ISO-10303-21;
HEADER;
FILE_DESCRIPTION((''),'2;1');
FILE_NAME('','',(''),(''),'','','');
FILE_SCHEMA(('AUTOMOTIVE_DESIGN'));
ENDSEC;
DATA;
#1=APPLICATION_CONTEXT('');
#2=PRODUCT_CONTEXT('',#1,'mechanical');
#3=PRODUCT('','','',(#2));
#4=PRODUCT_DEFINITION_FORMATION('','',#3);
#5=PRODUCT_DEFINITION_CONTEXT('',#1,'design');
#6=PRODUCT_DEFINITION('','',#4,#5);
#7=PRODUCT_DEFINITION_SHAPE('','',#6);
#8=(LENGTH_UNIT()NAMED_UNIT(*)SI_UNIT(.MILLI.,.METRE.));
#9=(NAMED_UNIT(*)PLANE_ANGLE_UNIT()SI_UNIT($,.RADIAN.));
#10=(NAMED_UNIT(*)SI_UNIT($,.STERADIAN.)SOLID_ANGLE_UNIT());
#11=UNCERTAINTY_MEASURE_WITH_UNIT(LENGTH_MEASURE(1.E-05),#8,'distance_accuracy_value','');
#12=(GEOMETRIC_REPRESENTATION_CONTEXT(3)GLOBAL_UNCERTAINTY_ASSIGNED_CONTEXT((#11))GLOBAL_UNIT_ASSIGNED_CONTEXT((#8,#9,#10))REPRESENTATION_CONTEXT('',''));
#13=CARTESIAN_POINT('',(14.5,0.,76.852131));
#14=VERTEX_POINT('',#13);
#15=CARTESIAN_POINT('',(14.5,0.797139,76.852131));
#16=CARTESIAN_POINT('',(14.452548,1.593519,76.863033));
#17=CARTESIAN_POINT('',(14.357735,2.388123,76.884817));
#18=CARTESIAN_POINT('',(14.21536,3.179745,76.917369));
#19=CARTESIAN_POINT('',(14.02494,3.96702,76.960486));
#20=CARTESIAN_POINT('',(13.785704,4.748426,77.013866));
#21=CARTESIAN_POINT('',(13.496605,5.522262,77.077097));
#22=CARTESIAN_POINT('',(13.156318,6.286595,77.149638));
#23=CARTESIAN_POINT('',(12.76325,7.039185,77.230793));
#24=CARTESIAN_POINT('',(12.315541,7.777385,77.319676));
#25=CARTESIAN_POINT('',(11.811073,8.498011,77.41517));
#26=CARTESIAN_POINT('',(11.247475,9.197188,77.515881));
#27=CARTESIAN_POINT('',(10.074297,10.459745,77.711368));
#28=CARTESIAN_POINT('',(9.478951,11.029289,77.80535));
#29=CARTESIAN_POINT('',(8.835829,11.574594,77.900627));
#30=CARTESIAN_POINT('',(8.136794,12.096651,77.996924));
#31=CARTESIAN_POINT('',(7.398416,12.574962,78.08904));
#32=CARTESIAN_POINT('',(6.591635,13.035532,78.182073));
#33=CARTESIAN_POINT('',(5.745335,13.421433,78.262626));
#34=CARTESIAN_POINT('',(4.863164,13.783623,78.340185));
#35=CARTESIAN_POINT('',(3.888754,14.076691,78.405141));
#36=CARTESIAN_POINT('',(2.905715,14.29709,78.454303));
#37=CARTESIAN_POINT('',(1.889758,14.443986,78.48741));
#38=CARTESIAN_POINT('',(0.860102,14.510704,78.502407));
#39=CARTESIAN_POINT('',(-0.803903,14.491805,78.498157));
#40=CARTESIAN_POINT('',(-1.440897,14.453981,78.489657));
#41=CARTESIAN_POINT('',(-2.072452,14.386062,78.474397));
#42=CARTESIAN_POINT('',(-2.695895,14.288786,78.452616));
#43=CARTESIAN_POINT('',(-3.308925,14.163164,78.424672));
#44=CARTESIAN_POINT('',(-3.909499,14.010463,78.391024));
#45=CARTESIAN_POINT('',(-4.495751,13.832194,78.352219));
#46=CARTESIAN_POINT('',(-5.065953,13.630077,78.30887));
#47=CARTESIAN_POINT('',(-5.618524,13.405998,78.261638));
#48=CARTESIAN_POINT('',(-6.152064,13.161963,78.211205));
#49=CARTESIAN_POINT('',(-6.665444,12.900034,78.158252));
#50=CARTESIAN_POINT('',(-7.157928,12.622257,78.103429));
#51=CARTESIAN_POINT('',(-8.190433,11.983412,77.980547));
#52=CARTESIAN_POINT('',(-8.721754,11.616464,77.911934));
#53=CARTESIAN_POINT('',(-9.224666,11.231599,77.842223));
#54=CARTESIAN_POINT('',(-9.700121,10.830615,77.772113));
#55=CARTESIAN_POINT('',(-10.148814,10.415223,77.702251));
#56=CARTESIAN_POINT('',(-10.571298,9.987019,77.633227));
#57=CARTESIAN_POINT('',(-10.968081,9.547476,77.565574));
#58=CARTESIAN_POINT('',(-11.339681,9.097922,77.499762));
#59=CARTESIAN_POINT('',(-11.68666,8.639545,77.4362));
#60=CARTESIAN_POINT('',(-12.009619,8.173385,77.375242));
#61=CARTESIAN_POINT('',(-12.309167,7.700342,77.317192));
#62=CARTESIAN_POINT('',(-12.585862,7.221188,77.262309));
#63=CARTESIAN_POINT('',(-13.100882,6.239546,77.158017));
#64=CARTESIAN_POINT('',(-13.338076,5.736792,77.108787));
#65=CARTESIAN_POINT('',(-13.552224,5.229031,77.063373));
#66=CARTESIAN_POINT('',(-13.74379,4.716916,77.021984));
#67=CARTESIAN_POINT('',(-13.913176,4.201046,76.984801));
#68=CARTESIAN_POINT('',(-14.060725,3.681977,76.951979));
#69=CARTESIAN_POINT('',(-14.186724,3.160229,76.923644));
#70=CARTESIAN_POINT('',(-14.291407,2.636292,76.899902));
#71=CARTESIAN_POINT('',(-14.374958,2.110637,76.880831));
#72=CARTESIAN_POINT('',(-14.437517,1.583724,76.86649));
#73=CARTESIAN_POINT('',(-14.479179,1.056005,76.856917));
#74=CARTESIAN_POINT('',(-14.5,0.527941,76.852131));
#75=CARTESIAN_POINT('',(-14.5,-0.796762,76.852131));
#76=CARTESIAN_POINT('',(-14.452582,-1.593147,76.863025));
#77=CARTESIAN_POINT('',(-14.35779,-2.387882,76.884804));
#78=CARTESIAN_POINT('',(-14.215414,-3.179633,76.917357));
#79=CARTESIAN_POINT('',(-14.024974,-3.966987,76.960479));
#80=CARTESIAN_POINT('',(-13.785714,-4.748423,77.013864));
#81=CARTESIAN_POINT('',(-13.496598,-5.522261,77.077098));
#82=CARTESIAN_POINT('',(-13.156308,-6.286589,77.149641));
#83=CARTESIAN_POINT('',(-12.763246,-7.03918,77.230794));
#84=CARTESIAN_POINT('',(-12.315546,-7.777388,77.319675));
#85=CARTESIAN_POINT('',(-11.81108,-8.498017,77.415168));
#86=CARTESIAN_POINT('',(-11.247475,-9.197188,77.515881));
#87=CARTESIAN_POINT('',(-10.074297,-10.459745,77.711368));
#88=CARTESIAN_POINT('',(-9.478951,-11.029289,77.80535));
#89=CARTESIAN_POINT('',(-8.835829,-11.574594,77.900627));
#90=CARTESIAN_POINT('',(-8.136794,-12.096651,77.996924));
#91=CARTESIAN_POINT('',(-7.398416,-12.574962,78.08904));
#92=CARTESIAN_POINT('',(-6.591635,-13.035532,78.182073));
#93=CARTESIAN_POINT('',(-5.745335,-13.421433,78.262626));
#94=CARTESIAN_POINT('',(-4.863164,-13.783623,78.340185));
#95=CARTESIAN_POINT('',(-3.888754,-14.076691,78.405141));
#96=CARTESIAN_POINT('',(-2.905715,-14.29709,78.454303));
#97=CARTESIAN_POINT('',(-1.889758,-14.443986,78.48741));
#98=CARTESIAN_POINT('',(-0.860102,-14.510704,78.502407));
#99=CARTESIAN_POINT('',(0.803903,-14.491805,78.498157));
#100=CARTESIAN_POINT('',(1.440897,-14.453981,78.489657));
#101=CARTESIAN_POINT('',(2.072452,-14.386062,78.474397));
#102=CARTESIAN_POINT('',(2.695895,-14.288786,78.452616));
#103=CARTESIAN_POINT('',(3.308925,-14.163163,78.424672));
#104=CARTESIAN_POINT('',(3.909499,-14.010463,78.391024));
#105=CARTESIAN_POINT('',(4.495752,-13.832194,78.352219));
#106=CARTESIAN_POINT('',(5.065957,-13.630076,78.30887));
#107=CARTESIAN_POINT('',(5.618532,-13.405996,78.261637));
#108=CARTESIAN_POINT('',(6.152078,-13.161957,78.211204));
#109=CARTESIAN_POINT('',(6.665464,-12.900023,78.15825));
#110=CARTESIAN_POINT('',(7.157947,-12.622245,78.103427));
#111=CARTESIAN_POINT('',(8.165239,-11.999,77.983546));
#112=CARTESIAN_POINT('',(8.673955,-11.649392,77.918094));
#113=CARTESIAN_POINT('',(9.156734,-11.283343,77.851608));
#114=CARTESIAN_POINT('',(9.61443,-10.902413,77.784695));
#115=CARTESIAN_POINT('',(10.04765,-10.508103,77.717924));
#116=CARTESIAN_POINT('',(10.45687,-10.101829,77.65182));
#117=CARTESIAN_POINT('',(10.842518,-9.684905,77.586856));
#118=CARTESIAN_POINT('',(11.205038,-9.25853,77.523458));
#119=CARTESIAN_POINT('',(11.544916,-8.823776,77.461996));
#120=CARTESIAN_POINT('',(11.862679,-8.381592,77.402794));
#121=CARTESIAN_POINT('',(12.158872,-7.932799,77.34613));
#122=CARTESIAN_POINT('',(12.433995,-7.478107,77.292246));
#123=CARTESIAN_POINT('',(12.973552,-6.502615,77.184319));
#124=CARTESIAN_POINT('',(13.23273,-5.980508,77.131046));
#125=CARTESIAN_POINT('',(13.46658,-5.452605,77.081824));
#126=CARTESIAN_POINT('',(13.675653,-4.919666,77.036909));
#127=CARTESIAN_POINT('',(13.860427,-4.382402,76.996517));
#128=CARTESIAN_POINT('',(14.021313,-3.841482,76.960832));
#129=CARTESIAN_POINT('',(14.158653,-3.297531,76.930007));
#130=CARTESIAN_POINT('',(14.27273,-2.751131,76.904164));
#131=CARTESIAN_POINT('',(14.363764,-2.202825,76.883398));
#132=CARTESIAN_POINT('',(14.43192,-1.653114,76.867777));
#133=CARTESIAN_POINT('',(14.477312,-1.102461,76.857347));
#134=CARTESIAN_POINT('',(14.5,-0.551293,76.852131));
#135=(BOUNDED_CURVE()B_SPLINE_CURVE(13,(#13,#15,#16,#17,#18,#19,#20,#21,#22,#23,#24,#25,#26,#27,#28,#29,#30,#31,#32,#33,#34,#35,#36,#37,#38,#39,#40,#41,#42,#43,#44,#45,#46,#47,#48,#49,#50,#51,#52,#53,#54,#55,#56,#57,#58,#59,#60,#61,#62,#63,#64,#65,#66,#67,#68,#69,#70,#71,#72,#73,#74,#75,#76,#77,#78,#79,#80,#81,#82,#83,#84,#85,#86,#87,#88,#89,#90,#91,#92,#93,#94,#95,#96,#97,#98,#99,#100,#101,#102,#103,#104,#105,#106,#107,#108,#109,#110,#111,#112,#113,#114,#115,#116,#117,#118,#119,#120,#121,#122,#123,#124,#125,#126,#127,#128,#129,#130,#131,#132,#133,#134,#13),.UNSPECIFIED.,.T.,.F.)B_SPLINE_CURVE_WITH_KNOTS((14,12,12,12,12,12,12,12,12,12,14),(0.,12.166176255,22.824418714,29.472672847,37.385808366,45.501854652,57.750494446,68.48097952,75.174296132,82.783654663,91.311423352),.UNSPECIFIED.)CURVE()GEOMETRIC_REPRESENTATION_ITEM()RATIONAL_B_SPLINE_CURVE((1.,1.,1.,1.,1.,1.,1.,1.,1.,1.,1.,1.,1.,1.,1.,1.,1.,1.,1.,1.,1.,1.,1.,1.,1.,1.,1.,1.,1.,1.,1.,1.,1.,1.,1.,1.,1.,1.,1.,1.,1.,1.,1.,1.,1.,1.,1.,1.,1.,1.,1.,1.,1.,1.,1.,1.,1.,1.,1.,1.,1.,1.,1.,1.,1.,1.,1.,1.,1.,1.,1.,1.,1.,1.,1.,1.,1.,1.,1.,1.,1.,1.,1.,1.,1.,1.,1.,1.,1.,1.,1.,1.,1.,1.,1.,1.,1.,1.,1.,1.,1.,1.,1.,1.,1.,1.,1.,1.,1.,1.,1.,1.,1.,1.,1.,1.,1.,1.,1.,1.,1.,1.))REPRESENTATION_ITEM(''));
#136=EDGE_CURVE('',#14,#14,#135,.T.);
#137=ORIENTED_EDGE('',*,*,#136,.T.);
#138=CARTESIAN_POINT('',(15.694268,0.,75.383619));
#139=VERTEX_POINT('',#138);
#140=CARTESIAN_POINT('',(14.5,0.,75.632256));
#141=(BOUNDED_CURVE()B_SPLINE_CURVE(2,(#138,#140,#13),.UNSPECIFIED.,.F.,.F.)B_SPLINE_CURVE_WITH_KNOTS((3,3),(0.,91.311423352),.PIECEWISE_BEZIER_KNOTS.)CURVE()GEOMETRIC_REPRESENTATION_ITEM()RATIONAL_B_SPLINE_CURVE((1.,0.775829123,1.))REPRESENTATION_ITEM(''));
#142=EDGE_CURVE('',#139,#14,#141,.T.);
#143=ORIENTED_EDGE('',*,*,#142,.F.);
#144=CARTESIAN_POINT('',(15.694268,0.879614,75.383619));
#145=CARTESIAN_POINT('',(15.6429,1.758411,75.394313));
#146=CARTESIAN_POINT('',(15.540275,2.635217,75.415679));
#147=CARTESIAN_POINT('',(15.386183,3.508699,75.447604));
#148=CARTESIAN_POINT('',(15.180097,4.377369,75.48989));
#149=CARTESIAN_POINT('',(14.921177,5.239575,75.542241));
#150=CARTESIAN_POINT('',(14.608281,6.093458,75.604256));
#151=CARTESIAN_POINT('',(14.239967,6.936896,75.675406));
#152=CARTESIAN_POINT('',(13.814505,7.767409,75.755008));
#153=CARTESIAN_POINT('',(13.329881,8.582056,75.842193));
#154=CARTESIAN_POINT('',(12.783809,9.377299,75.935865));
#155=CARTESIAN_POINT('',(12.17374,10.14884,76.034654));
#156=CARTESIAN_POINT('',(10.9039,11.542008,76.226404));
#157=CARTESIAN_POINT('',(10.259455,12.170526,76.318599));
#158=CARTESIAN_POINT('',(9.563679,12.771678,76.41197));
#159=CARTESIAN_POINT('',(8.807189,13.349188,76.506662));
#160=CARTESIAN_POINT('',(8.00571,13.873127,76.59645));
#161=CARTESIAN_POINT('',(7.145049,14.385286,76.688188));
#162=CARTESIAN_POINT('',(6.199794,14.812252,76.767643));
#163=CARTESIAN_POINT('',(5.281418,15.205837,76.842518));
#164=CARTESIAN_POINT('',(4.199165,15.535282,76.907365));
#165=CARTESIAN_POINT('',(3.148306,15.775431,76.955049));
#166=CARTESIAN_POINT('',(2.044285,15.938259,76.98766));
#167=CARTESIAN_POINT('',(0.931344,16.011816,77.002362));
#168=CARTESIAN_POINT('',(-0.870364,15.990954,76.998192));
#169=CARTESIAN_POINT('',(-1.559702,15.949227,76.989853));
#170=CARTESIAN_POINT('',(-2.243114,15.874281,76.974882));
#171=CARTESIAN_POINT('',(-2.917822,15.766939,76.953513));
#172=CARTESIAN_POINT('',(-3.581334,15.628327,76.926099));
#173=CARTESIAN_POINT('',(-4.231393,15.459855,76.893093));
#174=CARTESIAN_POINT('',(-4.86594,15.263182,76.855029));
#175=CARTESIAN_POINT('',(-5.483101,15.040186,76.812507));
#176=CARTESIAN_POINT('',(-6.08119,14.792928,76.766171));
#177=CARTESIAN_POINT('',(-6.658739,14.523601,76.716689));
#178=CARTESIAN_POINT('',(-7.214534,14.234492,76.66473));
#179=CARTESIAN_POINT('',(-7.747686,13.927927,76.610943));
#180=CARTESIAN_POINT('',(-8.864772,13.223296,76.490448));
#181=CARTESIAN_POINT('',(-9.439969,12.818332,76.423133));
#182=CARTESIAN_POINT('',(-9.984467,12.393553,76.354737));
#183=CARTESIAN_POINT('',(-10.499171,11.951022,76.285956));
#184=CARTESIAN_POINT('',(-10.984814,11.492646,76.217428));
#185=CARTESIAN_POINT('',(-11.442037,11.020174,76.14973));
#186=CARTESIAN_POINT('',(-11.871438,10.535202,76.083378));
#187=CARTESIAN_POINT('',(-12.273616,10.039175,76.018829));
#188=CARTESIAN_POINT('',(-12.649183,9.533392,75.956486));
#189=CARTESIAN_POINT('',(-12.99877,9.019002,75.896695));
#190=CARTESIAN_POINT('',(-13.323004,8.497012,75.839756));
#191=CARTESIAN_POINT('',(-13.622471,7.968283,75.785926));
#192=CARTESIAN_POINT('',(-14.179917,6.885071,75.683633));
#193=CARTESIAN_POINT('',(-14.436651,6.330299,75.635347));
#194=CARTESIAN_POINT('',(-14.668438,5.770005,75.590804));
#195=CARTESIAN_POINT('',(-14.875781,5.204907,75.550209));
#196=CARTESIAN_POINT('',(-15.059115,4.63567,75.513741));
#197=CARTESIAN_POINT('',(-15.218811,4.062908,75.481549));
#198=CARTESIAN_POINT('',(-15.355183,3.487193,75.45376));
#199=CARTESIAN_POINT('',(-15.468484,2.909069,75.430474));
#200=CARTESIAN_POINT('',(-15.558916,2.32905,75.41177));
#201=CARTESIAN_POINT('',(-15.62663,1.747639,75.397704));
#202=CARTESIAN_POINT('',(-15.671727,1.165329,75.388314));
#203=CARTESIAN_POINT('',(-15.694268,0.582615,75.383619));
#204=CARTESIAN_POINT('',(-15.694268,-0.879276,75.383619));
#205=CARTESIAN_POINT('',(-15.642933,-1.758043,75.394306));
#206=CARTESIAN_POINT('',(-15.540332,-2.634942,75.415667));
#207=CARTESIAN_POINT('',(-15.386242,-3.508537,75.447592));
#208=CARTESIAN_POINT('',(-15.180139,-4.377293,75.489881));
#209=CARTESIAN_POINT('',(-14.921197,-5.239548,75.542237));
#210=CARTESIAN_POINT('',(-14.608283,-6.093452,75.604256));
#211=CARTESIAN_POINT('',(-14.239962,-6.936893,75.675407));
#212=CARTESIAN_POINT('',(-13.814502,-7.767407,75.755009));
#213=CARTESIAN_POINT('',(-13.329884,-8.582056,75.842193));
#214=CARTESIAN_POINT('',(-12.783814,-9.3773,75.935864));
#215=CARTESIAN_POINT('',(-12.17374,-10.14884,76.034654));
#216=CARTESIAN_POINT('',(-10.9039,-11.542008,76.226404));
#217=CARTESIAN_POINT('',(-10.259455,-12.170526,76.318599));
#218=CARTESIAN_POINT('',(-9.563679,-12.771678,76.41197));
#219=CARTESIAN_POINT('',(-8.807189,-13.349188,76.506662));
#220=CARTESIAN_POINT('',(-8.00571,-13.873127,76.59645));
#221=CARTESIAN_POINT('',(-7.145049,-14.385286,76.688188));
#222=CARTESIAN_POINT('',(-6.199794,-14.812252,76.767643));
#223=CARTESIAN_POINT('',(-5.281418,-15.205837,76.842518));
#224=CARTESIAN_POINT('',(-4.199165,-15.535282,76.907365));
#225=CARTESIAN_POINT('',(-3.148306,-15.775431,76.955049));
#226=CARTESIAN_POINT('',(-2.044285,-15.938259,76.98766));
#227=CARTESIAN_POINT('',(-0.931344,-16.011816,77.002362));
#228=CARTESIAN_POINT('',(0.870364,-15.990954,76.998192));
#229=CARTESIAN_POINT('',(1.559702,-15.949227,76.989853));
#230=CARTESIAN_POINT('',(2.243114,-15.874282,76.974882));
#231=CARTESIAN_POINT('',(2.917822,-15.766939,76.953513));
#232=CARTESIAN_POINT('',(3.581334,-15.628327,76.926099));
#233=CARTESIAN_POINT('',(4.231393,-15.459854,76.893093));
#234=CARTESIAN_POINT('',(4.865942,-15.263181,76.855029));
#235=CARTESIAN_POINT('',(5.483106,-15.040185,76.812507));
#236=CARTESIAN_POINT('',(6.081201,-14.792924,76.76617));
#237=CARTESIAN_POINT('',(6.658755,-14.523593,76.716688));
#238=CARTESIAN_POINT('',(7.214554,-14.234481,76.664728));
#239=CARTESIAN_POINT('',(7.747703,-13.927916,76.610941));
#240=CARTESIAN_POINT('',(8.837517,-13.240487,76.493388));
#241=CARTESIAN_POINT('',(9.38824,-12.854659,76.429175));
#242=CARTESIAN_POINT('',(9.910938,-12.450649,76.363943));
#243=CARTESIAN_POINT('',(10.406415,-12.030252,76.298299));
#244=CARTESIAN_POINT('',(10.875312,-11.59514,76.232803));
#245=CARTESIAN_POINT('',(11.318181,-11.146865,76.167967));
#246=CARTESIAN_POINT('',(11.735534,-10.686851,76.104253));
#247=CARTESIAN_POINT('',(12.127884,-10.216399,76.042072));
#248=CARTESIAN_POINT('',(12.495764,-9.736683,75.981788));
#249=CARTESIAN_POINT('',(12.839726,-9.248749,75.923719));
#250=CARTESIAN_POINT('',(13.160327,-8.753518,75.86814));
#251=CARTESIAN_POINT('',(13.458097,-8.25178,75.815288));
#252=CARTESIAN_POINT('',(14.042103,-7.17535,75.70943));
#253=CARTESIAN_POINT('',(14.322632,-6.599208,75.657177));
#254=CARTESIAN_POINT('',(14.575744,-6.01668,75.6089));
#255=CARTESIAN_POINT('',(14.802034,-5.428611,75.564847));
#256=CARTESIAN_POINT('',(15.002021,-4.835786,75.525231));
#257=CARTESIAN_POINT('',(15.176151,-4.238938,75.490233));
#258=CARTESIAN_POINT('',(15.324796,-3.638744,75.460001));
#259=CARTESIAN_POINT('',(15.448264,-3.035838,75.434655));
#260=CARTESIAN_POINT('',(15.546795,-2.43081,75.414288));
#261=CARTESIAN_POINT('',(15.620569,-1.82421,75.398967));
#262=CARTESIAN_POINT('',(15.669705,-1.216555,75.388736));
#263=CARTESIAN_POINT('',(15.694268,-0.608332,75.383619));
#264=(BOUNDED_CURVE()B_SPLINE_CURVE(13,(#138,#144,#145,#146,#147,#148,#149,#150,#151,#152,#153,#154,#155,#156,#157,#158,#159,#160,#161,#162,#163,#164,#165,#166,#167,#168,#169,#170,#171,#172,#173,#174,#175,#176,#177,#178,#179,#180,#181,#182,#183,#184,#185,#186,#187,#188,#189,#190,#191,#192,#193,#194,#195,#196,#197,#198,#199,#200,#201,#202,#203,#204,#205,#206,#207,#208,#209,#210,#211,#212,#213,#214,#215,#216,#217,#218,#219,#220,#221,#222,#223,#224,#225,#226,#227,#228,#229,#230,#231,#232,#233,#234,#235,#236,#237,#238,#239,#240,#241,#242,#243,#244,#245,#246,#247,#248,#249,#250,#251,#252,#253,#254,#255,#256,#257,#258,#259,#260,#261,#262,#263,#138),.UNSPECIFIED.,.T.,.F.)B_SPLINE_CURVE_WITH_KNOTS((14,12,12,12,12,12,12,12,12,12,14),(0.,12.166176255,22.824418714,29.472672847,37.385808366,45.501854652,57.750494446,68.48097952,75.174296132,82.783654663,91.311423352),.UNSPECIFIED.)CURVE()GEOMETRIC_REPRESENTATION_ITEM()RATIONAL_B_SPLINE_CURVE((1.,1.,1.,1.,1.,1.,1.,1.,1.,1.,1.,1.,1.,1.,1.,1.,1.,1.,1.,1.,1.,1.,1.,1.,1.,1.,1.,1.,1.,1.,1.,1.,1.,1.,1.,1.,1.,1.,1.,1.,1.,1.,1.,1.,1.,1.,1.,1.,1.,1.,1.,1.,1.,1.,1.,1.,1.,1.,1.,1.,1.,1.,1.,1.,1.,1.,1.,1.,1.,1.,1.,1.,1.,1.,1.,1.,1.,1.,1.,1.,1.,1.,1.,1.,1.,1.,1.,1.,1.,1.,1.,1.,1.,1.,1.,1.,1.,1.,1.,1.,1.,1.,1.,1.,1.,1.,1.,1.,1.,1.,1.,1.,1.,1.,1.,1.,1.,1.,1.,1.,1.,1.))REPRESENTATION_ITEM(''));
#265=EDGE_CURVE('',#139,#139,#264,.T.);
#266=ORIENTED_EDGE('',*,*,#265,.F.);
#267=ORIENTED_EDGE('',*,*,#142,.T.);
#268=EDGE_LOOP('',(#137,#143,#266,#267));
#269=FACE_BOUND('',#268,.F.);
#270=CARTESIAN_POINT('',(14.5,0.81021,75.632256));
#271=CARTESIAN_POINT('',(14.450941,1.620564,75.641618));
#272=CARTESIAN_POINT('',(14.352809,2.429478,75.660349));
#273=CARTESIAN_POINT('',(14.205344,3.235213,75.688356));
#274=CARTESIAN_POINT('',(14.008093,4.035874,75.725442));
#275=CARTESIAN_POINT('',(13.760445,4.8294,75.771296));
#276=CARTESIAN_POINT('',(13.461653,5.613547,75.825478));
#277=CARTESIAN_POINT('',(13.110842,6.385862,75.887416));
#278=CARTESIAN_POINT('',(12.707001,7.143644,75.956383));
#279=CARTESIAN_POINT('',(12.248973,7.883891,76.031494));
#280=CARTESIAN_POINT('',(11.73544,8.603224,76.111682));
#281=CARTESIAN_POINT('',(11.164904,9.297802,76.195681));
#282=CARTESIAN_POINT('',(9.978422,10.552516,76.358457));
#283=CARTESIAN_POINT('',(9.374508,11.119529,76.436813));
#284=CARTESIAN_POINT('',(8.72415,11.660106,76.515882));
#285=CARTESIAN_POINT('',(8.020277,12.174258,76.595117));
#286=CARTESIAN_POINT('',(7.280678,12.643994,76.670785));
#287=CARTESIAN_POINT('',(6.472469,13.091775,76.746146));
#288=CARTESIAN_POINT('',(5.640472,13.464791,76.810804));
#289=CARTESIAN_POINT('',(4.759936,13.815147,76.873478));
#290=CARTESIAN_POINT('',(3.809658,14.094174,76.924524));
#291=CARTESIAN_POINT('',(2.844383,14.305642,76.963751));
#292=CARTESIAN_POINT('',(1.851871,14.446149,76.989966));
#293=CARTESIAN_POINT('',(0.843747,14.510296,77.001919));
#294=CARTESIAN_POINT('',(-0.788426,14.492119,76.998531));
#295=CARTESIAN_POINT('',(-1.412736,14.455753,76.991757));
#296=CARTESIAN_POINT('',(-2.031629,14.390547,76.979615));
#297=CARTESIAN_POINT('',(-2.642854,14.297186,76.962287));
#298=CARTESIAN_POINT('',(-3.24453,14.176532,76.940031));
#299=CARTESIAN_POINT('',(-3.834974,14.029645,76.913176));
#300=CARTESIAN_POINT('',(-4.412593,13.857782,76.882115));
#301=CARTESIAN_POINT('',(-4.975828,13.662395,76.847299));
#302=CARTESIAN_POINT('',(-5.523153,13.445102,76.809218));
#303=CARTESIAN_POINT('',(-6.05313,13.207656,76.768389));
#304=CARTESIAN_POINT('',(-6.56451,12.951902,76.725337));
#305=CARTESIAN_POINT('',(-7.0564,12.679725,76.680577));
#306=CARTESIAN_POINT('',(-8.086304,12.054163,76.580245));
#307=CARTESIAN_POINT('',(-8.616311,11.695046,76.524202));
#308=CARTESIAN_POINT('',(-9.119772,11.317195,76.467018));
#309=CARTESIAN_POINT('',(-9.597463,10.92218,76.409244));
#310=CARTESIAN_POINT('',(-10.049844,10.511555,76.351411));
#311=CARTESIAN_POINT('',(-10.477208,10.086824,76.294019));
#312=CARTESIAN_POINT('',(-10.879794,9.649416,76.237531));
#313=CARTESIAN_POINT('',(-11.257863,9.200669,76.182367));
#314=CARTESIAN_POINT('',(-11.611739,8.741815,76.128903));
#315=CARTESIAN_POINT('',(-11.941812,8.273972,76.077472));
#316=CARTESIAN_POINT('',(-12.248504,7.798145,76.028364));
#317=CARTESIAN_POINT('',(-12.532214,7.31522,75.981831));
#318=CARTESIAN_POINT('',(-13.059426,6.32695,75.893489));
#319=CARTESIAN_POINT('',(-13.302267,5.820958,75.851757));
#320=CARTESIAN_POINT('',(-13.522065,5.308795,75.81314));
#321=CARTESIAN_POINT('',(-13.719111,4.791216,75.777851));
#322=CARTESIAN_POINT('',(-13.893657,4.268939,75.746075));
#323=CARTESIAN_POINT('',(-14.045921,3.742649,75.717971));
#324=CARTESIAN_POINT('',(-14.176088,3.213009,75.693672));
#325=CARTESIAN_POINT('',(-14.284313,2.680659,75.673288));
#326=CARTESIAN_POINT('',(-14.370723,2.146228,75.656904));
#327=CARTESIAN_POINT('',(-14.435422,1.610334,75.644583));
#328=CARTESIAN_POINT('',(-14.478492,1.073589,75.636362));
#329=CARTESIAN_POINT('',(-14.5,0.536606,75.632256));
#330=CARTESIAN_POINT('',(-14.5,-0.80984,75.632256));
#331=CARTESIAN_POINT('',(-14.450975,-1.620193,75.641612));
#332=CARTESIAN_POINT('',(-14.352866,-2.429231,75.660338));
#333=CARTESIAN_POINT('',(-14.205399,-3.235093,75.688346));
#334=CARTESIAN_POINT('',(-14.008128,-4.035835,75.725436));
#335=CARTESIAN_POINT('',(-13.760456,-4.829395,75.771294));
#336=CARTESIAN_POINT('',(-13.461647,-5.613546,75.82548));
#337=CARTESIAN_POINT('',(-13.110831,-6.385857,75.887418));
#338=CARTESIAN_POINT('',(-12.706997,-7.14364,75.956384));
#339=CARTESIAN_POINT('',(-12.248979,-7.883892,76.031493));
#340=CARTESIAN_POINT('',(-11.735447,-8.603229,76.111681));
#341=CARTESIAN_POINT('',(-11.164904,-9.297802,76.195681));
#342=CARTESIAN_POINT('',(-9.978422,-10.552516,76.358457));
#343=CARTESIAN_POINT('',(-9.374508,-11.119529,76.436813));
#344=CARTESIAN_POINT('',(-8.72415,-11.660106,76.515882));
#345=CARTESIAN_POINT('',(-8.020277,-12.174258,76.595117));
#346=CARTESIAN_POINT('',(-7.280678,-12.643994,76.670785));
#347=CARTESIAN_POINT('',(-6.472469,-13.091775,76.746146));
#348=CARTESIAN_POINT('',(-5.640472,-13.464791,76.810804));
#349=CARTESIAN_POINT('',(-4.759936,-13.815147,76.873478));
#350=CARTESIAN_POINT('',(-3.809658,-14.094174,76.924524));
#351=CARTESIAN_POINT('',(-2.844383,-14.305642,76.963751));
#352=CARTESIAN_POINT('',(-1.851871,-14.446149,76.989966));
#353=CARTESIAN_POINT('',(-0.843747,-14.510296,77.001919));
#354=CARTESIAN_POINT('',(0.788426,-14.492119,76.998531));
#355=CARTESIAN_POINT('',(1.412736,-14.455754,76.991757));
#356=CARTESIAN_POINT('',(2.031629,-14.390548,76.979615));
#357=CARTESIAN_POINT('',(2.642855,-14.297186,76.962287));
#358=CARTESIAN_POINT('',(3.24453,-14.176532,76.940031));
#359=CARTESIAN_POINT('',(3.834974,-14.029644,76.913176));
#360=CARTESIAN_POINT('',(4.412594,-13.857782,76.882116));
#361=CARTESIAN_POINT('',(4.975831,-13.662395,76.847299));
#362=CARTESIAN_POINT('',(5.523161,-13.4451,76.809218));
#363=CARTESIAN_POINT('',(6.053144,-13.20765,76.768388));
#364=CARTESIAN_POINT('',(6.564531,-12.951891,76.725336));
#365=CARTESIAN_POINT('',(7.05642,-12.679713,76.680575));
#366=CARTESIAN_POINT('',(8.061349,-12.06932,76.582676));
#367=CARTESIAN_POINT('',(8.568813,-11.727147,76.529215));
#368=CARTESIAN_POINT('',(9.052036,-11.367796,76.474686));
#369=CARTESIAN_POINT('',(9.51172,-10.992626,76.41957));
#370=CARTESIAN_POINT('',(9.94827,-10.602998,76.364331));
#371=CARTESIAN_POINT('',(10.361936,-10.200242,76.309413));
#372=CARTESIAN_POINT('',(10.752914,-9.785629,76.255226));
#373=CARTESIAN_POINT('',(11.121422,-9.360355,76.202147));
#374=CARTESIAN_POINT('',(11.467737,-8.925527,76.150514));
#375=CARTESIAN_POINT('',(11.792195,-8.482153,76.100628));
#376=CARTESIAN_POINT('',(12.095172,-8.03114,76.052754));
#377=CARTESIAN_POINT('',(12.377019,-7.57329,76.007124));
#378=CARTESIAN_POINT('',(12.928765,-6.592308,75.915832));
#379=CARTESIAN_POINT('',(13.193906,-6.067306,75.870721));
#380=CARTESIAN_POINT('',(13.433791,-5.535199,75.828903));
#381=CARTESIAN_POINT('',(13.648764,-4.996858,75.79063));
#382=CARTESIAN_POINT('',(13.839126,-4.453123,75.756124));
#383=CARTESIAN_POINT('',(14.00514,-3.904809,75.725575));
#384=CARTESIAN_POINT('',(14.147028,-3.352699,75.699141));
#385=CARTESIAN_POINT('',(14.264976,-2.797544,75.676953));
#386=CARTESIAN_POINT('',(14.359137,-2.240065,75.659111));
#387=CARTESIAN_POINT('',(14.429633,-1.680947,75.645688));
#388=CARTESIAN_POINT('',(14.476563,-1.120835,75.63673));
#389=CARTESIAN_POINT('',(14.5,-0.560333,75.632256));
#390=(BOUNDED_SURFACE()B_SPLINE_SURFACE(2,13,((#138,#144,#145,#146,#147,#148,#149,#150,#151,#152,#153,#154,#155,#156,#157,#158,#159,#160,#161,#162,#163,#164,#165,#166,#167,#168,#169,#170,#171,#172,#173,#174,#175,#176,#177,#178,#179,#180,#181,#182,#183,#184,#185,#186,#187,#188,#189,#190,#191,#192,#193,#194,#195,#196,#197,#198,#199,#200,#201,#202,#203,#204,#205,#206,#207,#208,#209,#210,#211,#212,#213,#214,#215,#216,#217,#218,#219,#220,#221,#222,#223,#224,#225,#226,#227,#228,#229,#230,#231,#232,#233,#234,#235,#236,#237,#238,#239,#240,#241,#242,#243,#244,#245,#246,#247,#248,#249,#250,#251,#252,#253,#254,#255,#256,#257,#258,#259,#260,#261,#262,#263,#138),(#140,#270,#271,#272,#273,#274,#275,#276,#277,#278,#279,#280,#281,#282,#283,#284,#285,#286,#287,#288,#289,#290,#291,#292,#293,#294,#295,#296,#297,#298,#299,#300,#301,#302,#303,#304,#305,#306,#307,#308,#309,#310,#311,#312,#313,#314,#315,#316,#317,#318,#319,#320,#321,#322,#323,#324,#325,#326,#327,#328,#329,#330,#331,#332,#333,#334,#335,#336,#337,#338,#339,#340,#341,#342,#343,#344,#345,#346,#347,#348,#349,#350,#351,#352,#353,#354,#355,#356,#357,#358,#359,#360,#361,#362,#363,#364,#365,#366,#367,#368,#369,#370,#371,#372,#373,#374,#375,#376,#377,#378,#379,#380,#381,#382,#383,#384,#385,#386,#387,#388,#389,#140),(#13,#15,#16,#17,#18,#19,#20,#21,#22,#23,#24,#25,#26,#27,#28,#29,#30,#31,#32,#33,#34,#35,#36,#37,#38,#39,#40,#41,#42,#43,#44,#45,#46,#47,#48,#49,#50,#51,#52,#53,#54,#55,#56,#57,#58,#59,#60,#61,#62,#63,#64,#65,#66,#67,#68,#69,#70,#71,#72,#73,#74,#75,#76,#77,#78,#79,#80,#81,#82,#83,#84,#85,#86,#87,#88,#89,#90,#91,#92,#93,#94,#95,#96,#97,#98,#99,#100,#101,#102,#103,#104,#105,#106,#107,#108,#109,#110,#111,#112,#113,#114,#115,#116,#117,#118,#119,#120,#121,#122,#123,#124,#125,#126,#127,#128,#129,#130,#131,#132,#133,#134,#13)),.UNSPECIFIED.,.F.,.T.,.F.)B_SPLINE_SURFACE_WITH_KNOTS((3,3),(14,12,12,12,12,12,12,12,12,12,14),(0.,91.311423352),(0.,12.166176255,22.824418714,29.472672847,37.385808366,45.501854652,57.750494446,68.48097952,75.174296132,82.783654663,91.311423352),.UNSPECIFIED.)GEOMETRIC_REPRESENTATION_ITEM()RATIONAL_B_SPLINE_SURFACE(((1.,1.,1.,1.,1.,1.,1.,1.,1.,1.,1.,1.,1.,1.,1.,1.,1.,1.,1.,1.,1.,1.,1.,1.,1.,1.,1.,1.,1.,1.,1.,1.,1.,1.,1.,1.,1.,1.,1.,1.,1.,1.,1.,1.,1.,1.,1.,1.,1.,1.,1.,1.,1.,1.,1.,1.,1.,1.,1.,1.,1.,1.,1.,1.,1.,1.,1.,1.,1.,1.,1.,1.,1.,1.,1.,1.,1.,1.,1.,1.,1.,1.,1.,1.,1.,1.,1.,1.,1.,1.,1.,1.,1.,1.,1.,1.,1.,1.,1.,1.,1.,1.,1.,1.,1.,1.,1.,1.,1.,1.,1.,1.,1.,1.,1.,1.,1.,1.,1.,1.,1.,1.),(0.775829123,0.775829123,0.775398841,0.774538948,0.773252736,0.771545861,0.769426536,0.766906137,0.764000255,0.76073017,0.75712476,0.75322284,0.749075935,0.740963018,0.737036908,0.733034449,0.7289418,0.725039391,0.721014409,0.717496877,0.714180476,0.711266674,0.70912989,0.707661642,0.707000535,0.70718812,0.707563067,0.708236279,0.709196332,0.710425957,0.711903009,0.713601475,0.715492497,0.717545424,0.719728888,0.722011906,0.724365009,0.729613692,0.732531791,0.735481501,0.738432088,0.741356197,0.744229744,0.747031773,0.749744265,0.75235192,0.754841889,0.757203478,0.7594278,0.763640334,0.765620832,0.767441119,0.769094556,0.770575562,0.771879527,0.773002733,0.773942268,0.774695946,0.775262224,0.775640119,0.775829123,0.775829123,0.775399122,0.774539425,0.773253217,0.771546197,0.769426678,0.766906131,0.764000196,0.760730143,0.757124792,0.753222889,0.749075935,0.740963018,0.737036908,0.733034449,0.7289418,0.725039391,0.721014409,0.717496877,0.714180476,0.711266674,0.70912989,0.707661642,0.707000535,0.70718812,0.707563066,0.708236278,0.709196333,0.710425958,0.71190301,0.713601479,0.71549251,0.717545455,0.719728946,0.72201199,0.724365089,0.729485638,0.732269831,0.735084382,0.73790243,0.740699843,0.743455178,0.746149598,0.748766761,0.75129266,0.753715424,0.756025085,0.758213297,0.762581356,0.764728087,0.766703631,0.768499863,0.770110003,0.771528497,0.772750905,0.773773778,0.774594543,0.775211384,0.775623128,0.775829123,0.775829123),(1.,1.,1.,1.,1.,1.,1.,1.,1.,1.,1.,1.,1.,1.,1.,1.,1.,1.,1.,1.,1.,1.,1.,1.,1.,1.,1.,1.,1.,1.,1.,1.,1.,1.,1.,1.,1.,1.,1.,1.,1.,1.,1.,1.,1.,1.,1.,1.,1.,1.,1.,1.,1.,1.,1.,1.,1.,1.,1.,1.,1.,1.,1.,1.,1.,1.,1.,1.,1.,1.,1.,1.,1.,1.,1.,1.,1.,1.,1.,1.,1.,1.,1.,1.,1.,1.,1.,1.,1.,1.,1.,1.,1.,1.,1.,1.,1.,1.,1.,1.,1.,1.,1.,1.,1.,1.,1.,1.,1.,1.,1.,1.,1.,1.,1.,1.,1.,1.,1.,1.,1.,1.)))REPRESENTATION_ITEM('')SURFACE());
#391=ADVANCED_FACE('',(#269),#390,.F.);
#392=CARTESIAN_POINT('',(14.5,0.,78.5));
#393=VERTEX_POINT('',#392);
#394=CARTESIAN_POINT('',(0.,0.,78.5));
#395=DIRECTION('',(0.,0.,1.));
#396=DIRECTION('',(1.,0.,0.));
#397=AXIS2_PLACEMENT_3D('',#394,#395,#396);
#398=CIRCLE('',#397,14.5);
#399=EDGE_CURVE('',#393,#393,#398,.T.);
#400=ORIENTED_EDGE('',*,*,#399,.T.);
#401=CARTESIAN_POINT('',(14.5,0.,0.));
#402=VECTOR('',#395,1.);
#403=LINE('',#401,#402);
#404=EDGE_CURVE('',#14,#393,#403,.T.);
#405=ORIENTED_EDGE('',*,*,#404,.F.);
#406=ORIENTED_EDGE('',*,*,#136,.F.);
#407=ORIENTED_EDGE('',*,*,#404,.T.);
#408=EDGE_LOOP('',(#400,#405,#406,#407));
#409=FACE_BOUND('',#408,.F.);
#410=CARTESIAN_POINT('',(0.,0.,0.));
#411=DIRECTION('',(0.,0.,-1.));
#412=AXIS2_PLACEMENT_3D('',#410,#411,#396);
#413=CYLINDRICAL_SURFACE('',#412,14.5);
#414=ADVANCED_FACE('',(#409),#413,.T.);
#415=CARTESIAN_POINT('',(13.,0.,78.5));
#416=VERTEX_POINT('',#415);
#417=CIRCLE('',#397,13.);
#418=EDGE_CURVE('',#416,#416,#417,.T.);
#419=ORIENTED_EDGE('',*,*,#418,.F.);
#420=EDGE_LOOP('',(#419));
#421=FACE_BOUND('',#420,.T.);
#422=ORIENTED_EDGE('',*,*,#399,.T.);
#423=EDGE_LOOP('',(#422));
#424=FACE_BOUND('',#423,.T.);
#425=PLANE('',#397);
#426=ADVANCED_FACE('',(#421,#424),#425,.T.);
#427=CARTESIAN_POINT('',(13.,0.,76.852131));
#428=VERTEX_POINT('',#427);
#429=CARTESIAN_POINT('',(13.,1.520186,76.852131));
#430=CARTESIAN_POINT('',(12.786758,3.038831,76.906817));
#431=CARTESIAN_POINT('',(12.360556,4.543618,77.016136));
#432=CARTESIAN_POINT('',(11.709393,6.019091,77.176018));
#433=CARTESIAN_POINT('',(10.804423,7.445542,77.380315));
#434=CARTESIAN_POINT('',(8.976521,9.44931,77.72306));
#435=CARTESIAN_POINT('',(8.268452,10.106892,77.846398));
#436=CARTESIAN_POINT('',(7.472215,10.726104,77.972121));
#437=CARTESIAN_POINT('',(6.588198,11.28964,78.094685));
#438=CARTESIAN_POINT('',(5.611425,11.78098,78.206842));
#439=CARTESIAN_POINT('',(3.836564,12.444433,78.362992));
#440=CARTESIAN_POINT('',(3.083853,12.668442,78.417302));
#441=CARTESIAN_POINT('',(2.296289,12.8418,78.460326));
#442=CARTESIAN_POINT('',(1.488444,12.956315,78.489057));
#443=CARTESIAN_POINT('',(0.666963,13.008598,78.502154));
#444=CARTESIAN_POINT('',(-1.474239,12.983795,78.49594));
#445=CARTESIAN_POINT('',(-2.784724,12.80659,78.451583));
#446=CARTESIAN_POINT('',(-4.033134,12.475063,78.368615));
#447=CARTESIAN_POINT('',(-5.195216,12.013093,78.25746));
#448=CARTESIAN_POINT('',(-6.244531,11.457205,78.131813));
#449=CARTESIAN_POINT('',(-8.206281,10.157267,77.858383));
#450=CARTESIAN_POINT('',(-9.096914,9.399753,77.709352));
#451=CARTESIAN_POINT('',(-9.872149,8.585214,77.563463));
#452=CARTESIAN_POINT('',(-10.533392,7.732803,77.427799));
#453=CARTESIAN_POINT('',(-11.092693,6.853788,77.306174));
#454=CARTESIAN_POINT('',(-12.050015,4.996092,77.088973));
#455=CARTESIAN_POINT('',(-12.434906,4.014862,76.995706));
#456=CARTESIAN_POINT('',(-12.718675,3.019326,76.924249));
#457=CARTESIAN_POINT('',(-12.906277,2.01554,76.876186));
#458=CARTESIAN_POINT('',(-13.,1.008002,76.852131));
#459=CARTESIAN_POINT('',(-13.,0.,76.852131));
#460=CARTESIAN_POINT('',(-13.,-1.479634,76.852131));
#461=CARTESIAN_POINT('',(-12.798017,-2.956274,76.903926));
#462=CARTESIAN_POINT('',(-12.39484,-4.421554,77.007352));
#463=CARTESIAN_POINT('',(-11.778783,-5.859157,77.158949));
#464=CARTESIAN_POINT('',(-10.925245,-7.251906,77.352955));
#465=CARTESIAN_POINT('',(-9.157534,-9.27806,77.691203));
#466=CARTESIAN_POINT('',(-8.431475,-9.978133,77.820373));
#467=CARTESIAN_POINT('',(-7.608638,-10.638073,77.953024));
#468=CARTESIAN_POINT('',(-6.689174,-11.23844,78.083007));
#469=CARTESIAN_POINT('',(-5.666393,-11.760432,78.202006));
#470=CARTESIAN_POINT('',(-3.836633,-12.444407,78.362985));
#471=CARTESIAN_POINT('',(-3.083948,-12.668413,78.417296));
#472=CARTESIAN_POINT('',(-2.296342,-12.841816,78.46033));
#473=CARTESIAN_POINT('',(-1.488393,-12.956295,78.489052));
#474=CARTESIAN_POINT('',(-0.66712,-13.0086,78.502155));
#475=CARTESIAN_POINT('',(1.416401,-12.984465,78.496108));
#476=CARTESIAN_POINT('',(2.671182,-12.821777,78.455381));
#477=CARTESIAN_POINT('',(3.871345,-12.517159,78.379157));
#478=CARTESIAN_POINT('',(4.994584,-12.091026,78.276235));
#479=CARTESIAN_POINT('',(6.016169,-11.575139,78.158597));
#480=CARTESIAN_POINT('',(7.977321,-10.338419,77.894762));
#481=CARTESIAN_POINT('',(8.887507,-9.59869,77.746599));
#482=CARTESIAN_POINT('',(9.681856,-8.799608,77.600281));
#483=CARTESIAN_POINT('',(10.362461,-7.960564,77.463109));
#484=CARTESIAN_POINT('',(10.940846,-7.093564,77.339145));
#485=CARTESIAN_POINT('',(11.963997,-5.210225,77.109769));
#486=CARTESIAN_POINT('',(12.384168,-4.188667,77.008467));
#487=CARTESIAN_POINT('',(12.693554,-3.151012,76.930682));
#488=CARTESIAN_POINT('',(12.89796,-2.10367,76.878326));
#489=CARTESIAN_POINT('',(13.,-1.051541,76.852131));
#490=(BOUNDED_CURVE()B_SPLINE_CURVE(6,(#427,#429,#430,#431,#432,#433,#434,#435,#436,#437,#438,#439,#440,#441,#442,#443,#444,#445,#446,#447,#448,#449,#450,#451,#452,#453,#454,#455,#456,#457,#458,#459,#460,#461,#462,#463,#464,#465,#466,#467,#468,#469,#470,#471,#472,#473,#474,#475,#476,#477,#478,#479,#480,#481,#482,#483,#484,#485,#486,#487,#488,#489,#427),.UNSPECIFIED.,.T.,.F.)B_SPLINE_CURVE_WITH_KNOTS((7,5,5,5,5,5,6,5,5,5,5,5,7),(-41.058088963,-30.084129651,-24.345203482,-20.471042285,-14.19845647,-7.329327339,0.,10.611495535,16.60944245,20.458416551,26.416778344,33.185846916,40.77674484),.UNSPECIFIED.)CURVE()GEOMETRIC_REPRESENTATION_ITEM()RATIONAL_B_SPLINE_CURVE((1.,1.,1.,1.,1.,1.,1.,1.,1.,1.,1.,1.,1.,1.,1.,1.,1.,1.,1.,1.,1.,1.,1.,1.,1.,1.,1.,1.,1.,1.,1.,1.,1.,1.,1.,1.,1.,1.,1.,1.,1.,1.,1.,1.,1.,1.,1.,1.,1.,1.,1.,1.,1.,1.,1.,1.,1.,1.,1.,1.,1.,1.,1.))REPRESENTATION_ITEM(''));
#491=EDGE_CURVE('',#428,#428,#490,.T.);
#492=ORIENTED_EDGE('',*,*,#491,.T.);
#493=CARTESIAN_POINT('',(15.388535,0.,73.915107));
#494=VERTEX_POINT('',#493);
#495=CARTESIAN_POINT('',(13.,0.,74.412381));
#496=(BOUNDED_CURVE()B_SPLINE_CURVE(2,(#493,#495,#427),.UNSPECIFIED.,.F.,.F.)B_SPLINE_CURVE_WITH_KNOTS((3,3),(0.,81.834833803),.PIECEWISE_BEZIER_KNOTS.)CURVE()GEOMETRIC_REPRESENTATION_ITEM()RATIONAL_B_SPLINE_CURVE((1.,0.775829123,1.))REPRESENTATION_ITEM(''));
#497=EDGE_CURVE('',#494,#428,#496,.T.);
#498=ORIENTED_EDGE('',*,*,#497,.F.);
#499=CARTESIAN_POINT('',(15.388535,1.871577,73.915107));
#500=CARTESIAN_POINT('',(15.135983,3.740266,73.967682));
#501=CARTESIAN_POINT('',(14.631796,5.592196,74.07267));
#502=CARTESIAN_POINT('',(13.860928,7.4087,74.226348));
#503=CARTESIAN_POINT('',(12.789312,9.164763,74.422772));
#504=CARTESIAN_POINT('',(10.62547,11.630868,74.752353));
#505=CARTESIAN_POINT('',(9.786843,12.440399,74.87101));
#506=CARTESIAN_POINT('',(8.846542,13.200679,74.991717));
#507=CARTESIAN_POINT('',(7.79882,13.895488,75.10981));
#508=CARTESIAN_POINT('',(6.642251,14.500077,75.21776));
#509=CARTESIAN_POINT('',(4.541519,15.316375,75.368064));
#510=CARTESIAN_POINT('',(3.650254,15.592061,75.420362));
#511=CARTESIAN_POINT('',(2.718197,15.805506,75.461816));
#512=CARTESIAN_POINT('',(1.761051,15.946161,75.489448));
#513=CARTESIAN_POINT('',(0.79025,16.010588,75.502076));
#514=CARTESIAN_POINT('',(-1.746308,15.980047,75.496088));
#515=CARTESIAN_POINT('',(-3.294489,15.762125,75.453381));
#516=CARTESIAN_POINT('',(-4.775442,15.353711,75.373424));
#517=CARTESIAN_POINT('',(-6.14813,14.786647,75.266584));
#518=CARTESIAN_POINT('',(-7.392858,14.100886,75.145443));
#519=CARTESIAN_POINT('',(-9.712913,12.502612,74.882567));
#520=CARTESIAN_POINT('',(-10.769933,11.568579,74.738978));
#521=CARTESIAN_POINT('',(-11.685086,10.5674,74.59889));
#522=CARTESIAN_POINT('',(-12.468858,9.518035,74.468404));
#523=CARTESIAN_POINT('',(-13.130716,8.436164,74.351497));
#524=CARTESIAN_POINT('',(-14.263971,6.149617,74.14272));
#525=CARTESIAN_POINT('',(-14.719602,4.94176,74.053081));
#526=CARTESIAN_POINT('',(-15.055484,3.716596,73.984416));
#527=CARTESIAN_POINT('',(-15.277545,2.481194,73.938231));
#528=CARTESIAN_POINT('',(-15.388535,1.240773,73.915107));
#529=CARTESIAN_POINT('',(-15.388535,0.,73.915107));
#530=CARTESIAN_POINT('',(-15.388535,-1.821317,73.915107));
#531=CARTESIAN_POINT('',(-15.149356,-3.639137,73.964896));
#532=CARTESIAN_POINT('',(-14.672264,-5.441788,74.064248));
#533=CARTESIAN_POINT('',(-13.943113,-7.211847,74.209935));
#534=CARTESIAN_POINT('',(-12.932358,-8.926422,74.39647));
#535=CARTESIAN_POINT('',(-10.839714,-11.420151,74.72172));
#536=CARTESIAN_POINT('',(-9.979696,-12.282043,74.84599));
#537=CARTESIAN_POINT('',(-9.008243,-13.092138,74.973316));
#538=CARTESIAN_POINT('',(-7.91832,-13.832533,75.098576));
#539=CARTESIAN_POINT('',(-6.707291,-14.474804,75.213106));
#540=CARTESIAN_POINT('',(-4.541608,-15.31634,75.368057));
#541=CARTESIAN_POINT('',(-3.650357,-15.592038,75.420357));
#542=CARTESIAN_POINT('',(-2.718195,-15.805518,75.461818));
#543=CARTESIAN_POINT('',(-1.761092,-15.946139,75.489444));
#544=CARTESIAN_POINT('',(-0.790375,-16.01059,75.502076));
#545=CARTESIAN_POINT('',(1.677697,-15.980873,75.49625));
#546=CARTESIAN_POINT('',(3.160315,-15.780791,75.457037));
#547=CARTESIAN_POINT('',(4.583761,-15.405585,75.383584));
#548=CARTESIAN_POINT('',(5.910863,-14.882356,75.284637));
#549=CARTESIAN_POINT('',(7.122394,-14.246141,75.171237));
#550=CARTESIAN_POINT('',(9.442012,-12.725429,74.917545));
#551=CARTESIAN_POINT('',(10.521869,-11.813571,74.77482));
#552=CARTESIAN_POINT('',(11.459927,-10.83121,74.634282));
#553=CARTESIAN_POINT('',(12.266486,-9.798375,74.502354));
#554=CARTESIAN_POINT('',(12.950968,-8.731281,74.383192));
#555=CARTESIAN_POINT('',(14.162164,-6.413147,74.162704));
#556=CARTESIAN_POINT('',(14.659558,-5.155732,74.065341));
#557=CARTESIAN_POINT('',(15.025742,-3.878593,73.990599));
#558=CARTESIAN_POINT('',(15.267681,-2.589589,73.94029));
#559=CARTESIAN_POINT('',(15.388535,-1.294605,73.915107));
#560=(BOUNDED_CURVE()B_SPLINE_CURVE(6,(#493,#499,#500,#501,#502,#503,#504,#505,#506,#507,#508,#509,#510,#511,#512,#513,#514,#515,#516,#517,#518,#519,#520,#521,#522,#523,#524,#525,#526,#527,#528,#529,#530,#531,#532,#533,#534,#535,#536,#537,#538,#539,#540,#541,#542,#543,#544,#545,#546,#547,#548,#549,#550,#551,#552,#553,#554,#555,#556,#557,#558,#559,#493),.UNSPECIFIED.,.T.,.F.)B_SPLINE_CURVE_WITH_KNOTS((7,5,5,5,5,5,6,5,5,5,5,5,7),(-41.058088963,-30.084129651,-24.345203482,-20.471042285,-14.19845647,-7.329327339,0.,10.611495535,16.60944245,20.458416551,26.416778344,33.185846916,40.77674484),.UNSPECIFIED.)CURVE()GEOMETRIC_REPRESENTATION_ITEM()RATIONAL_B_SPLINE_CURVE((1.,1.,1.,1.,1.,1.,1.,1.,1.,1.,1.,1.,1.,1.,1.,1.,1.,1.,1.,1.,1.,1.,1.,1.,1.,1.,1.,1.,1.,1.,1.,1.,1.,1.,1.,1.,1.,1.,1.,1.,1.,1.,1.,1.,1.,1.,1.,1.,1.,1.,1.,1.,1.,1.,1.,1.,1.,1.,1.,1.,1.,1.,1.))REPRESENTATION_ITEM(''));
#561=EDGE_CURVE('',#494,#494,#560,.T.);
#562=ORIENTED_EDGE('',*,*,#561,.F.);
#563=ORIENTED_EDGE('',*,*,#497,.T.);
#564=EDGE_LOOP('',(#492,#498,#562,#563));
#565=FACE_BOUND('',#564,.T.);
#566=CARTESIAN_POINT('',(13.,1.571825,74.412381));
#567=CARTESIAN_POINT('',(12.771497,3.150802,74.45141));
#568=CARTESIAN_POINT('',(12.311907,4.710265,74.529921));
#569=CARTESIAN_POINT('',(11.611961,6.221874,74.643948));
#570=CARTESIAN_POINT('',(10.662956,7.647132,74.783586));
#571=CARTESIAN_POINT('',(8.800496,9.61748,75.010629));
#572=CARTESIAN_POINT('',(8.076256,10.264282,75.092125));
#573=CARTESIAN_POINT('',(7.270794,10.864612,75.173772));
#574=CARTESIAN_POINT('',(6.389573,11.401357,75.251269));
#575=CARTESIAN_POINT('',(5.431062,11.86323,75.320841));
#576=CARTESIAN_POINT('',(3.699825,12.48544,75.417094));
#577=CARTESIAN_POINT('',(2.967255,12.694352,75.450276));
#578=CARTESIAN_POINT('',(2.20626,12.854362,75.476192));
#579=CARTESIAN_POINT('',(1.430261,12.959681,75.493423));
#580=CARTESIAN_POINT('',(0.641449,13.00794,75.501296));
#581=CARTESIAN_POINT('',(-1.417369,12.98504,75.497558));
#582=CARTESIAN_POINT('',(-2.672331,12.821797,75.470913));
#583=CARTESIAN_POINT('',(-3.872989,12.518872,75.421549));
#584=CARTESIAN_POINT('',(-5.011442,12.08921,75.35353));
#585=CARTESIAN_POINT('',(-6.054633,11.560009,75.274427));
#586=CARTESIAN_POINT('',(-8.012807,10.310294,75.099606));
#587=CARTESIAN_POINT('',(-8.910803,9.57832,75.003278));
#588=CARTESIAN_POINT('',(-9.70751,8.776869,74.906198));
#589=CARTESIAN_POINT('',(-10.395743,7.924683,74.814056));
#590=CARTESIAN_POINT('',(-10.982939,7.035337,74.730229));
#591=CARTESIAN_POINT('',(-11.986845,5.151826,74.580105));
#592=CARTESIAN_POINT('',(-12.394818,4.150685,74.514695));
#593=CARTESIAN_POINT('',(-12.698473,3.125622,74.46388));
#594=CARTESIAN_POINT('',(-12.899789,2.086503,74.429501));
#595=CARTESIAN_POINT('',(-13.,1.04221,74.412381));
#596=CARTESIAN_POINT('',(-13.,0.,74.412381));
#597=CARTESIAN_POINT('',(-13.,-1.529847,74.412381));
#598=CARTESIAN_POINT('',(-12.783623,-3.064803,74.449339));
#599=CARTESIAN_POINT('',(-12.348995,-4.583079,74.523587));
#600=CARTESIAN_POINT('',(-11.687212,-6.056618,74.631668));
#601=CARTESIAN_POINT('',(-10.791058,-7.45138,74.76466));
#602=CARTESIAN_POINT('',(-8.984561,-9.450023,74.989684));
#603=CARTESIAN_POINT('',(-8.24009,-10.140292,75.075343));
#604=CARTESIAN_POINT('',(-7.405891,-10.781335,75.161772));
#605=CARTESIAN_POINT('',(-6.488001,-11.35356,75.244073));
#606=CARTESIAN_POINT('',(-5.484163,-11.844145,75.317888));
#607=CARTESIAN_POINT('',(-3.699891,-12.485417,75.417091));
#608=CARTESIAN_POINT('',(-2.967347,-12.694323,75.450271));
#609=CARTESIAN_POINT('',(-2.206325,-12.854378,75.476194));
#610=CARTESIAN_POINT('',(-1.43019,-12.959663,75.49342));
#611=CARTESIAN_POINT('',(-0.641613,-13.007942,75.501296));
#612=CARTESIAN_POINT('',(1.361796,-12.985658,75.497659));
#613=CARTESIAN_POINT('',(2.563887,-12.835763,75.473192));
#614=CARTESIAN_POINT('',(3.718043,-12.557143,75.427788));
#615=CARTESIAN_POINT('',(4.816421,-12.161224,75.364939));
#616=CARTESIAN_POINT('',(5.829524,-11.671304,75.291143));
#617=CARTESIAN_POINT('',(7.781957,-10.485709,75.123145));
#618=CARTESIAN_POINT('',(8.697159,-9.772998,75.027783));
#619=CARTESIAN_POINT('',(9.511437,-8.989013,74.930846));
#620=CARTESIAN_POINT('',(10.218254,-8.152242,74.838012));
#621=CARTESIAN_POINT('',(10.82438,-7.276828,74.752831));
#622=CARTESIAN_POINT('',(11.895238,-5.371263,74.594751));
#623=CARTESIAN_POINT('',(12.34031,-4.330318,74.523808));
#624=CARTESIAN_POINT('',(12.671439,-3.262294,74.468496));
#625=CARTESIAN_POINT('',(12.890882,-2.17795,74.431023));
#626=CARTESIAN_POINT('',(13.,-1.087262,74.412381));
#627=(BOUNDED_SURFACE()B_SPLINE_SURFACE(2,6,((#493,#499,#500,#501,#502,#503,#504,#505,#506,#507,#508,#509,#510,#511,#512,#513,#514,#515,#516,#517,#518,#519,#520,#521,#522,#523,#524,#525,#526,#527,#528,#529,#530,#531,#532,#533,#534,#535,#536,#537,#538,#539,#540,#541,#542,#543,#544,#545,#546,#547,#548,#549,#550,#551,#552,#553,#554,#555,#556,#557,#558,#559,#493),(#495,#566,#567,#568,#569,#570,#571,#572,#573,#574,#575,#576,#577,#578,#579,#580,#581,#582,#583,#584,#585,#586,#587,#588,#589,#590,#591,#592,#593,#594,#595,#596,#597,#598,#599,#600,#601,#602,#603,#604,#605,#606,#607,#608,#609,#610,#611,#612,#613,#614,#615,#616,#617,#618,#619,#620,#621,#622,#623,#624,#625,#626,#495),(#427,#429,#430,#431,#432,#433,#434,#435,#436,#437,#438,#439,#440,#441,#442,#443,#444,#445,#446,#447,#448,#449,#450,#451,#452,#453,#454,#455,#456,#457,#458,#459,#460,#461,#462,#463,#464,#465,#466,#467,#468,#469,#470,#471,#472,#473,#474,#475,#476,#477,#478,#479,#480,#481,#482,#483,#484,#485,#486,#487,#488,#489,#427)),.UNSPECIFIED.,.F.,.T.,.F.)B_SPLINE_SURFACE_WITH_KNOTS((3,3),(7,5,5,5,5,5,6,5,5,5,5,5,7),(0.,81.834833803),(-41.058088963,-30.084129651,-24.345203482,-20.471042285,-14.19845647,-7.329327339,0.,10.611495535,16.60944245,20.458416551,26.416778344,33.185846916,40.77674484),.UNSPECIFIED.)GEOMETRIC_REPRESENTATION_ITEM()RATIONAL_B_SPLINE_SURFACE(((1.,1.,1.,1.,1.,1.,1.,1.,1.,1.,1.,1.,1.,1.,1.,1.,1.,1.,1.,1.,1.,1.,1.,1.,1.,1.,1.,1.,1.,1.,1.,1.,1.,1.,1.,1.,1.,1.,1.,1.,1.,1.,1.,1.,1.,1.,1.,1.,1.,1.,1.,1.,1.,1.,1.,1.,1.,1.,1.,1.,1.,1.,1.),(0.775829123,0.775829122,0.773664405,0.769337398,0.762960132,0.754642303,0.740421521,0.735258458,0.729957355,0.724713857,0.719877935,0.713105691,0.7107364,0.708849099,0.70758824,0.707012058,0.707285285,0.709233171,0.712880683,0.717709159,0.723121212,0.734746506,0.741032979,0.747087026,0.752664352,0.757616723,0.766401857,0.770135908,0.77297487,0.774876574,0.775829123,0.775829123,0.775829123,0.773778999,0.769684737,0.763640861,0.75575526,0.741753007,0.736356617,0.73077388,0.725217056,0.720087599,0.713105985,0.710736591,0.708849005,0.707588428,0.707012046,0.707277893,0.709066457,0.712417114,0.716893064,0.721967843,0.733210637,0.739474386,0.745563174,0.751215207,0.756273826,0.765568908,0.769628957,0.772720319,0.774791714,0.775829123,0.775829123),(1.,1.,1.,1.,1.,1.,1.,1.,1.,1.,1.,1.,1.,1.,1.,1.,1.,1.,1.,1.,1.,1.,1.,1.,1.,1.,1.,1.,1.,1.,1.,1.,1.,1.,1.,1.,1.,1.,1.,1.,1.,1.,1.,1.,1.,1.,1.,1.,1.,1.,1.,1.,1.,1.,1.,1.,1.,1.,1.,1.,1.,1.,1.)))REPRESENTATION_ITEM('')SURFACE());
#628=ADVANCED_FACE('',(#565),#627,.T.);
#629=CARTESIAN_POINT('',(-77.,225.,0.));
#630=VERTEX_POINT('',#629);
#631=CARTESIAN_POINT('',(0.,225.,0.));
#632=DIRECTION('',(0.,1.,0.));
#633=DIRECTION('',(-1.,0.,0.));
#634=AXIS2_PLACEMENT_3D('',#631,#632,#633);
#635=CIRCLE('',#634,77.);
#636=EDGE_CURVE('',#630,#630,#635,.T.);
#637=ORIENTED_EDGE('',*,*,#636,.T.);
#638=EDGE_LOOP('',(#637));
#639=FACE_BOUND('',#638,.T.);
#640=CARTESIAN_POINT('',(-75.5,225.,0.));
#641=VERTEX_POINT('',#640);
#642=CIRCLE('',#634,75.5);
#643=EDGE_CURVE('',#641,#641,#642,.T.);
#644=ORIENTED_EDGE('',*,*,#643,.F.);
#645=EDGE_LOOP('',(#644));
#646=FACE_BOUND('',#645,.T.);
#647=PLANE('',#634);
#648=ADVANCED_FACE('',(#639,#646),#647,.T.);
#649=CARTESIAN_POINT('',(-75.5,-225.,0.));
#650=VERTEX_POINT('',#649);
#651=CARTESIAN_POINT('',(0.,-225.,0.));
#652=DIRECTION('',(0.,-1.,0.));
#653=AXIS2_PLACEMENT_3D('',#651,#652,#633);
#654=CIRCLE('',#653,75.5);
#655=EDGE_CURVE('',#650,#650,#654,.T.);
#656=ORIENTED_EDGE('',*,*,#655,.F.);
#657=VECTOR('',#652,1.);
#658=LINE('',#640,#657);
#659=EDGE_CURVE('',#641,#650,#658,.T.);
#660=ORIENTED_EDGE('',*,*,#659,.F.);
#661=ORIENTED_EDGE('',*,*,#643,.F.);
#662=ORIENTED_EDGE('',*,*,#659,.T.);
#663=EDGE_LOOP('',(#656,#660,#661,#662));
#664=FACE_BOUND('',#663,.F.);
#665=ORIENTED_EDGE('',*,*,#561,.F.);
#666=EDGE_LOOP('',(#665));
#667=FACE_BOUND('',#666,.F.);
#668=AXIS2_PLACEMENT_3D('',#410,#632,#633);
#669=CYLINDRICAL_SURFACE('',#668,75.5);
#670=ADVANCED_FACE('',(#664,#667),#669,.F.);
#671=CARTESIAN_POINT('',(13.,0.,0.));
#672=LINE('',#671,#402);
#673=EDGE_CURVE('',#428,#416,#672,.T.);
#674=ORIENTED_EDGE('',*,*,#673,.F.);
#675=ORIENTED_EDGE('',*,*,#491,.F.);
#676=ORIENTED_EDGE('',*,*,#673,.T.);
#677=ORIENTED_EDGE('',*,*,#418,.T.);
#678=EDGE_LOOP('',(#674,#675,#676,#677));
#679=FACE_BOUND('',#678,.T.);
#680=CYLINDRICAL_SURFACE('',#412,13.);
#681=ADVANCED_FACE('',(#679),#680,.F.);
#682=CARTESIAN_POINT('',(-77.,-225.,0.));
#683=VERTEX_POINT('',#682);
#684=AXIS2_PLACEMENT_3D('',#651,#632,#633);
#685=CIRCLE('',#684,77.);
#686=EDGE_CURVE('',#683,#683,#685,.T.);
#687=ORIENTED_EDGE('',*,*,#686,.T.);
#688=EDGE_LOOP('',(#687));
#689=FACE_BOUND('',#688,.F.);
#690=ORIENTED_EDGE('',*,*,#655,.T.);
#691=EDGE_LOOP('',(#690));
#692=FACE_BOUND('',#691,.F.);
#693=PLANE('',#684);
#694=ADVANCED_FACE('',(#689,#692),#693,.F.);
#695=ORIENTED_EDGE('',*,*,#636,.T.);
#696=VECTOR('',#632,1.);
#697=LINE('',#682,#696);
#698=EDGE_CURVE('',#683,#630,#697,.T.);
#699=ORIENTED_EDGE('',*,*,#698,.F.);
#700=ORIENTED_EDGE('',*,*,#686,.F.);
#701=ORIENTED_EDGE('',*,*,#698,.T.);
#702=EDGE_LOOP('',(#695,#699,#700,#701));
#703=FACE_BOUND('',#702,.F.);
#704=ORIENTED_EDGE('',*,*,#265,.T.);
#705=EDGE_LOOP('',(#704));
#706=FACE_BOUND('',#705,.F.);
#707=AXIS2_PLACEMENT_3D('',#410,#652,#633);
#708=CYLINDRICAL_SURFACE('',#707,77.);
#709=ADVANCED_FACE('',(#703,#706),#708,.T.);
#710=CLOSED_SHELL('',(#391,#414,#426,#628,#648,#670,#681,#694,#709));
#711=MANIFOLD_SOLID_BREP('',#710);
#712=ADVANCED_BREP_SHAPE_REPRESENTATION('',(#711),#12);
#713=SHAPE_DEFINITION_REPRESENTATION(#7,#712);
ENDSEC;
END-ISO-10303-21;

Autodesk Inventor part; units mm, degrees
ref_plane "YZ Plane" through (0, 0, 0) normal (1, 0, 0) x (0, 1, 0)
ref_plane "XZ Plane" through (0, 0, 0) normal (0, 1, 0) x (-1, 0, 0)
ref_plane "XY Plane" through (0, 0, 0) normal (0, 0, 1) x (1, 0, 0)
sketch "Szkic8" plane through (0, 0, 0) normal (0, 1, 0) x (-1, 0, 0)
  circle A0 centre (0, 0) radius 77
  circle A1 centre (0, 0) radius 75.5
  dimension "d53" = 154
  dimension "d54" = 1.5
extrude "Wyciągnięcie proste2" add sketch "Szkic8" along normal mid plane 450
sketch "Szkic13" plane through (0, 0, 0) normal (0, 0, 1) x (1, 0, 0)
  circle A0 centre (0, 0) radius 14.5
  circle A1 centre (0, 0) radius 13
  dimension "d67" = 29
  dimension "d68" = 1.5
extrude "Wyciągnięcie proste6" add sketch "Szkic13" along normal blind 78.5
sketch "Szkic14" plane through (0, 0, 78.5) normal (0, 0, 1) x (1, 0, 0)
  circle A0 centre (0, 0) radius 13 projected
extrude "Wyciągnięcie proste7" cut sketch "Szkic14" against normal blind 78.5
sketch "Szkic15" plane through (0, -225, 0) normal (0, -1, 0) x (1, 0, 0)
  circle A0 centre (0, 0) radius 75.5 projected
extrude "Wyciągnięcie proste8" cut sketch "Szkic15" against normal blind 450
fillet "Zaokrąglenie3" radius 1.5 2 edges at (-0.0708, 14.4998, 77) (0.0708, -14.4998, 77)
fillet "Zaokrąglenie4" radius 3 2 edges at (0.062, -12.9999, 75.5) (-0.062, 12.9999, 75.5)
equation "\"d53\" = OD"
equation "\"d54\" = THK"
equation "\"d55\" = L1"
equation "\"d67\" = OD2"
equation "\"d68\" = THK"
equation "\"d69\" = L2"
equation "\"d71\" = L2"
equation "\"d73\" = L1"
equation "\"d75\" = THK"
equation "\"d76\" = 2 * THK"
equation "\"SzerokośćGięciaPodcięcia\" = Grubość"
equation "\"RozmiarPodcięciaNarożnika\" = 4 * Grubość"
equation "\"PromieńPrzejścia\" = PromieńGięcia"
equation "\"Rozmiar_promienia_Jacobiego\" = PromieńGięcia"
equation "\"Wielk_odstępu\" = Grubość"
equation "\"d2\" = PromieńGięcia"
equation "\"d23\" = PromieńGięcia"
equation "\"OD\" = 154"
equation "\"THK\" = 1.5"
equation "\"L1\" = 450"
equation "\"L2\" = 78.5"
equation "\"OD2\" = 29"
equation "\"Grubość\" = 1.5"
equation "\"PromieńGięcia\" = 3"
properties part number "Trójnik red. krótki  Ø154 29 154 s=1,5 L=450" material "304"
